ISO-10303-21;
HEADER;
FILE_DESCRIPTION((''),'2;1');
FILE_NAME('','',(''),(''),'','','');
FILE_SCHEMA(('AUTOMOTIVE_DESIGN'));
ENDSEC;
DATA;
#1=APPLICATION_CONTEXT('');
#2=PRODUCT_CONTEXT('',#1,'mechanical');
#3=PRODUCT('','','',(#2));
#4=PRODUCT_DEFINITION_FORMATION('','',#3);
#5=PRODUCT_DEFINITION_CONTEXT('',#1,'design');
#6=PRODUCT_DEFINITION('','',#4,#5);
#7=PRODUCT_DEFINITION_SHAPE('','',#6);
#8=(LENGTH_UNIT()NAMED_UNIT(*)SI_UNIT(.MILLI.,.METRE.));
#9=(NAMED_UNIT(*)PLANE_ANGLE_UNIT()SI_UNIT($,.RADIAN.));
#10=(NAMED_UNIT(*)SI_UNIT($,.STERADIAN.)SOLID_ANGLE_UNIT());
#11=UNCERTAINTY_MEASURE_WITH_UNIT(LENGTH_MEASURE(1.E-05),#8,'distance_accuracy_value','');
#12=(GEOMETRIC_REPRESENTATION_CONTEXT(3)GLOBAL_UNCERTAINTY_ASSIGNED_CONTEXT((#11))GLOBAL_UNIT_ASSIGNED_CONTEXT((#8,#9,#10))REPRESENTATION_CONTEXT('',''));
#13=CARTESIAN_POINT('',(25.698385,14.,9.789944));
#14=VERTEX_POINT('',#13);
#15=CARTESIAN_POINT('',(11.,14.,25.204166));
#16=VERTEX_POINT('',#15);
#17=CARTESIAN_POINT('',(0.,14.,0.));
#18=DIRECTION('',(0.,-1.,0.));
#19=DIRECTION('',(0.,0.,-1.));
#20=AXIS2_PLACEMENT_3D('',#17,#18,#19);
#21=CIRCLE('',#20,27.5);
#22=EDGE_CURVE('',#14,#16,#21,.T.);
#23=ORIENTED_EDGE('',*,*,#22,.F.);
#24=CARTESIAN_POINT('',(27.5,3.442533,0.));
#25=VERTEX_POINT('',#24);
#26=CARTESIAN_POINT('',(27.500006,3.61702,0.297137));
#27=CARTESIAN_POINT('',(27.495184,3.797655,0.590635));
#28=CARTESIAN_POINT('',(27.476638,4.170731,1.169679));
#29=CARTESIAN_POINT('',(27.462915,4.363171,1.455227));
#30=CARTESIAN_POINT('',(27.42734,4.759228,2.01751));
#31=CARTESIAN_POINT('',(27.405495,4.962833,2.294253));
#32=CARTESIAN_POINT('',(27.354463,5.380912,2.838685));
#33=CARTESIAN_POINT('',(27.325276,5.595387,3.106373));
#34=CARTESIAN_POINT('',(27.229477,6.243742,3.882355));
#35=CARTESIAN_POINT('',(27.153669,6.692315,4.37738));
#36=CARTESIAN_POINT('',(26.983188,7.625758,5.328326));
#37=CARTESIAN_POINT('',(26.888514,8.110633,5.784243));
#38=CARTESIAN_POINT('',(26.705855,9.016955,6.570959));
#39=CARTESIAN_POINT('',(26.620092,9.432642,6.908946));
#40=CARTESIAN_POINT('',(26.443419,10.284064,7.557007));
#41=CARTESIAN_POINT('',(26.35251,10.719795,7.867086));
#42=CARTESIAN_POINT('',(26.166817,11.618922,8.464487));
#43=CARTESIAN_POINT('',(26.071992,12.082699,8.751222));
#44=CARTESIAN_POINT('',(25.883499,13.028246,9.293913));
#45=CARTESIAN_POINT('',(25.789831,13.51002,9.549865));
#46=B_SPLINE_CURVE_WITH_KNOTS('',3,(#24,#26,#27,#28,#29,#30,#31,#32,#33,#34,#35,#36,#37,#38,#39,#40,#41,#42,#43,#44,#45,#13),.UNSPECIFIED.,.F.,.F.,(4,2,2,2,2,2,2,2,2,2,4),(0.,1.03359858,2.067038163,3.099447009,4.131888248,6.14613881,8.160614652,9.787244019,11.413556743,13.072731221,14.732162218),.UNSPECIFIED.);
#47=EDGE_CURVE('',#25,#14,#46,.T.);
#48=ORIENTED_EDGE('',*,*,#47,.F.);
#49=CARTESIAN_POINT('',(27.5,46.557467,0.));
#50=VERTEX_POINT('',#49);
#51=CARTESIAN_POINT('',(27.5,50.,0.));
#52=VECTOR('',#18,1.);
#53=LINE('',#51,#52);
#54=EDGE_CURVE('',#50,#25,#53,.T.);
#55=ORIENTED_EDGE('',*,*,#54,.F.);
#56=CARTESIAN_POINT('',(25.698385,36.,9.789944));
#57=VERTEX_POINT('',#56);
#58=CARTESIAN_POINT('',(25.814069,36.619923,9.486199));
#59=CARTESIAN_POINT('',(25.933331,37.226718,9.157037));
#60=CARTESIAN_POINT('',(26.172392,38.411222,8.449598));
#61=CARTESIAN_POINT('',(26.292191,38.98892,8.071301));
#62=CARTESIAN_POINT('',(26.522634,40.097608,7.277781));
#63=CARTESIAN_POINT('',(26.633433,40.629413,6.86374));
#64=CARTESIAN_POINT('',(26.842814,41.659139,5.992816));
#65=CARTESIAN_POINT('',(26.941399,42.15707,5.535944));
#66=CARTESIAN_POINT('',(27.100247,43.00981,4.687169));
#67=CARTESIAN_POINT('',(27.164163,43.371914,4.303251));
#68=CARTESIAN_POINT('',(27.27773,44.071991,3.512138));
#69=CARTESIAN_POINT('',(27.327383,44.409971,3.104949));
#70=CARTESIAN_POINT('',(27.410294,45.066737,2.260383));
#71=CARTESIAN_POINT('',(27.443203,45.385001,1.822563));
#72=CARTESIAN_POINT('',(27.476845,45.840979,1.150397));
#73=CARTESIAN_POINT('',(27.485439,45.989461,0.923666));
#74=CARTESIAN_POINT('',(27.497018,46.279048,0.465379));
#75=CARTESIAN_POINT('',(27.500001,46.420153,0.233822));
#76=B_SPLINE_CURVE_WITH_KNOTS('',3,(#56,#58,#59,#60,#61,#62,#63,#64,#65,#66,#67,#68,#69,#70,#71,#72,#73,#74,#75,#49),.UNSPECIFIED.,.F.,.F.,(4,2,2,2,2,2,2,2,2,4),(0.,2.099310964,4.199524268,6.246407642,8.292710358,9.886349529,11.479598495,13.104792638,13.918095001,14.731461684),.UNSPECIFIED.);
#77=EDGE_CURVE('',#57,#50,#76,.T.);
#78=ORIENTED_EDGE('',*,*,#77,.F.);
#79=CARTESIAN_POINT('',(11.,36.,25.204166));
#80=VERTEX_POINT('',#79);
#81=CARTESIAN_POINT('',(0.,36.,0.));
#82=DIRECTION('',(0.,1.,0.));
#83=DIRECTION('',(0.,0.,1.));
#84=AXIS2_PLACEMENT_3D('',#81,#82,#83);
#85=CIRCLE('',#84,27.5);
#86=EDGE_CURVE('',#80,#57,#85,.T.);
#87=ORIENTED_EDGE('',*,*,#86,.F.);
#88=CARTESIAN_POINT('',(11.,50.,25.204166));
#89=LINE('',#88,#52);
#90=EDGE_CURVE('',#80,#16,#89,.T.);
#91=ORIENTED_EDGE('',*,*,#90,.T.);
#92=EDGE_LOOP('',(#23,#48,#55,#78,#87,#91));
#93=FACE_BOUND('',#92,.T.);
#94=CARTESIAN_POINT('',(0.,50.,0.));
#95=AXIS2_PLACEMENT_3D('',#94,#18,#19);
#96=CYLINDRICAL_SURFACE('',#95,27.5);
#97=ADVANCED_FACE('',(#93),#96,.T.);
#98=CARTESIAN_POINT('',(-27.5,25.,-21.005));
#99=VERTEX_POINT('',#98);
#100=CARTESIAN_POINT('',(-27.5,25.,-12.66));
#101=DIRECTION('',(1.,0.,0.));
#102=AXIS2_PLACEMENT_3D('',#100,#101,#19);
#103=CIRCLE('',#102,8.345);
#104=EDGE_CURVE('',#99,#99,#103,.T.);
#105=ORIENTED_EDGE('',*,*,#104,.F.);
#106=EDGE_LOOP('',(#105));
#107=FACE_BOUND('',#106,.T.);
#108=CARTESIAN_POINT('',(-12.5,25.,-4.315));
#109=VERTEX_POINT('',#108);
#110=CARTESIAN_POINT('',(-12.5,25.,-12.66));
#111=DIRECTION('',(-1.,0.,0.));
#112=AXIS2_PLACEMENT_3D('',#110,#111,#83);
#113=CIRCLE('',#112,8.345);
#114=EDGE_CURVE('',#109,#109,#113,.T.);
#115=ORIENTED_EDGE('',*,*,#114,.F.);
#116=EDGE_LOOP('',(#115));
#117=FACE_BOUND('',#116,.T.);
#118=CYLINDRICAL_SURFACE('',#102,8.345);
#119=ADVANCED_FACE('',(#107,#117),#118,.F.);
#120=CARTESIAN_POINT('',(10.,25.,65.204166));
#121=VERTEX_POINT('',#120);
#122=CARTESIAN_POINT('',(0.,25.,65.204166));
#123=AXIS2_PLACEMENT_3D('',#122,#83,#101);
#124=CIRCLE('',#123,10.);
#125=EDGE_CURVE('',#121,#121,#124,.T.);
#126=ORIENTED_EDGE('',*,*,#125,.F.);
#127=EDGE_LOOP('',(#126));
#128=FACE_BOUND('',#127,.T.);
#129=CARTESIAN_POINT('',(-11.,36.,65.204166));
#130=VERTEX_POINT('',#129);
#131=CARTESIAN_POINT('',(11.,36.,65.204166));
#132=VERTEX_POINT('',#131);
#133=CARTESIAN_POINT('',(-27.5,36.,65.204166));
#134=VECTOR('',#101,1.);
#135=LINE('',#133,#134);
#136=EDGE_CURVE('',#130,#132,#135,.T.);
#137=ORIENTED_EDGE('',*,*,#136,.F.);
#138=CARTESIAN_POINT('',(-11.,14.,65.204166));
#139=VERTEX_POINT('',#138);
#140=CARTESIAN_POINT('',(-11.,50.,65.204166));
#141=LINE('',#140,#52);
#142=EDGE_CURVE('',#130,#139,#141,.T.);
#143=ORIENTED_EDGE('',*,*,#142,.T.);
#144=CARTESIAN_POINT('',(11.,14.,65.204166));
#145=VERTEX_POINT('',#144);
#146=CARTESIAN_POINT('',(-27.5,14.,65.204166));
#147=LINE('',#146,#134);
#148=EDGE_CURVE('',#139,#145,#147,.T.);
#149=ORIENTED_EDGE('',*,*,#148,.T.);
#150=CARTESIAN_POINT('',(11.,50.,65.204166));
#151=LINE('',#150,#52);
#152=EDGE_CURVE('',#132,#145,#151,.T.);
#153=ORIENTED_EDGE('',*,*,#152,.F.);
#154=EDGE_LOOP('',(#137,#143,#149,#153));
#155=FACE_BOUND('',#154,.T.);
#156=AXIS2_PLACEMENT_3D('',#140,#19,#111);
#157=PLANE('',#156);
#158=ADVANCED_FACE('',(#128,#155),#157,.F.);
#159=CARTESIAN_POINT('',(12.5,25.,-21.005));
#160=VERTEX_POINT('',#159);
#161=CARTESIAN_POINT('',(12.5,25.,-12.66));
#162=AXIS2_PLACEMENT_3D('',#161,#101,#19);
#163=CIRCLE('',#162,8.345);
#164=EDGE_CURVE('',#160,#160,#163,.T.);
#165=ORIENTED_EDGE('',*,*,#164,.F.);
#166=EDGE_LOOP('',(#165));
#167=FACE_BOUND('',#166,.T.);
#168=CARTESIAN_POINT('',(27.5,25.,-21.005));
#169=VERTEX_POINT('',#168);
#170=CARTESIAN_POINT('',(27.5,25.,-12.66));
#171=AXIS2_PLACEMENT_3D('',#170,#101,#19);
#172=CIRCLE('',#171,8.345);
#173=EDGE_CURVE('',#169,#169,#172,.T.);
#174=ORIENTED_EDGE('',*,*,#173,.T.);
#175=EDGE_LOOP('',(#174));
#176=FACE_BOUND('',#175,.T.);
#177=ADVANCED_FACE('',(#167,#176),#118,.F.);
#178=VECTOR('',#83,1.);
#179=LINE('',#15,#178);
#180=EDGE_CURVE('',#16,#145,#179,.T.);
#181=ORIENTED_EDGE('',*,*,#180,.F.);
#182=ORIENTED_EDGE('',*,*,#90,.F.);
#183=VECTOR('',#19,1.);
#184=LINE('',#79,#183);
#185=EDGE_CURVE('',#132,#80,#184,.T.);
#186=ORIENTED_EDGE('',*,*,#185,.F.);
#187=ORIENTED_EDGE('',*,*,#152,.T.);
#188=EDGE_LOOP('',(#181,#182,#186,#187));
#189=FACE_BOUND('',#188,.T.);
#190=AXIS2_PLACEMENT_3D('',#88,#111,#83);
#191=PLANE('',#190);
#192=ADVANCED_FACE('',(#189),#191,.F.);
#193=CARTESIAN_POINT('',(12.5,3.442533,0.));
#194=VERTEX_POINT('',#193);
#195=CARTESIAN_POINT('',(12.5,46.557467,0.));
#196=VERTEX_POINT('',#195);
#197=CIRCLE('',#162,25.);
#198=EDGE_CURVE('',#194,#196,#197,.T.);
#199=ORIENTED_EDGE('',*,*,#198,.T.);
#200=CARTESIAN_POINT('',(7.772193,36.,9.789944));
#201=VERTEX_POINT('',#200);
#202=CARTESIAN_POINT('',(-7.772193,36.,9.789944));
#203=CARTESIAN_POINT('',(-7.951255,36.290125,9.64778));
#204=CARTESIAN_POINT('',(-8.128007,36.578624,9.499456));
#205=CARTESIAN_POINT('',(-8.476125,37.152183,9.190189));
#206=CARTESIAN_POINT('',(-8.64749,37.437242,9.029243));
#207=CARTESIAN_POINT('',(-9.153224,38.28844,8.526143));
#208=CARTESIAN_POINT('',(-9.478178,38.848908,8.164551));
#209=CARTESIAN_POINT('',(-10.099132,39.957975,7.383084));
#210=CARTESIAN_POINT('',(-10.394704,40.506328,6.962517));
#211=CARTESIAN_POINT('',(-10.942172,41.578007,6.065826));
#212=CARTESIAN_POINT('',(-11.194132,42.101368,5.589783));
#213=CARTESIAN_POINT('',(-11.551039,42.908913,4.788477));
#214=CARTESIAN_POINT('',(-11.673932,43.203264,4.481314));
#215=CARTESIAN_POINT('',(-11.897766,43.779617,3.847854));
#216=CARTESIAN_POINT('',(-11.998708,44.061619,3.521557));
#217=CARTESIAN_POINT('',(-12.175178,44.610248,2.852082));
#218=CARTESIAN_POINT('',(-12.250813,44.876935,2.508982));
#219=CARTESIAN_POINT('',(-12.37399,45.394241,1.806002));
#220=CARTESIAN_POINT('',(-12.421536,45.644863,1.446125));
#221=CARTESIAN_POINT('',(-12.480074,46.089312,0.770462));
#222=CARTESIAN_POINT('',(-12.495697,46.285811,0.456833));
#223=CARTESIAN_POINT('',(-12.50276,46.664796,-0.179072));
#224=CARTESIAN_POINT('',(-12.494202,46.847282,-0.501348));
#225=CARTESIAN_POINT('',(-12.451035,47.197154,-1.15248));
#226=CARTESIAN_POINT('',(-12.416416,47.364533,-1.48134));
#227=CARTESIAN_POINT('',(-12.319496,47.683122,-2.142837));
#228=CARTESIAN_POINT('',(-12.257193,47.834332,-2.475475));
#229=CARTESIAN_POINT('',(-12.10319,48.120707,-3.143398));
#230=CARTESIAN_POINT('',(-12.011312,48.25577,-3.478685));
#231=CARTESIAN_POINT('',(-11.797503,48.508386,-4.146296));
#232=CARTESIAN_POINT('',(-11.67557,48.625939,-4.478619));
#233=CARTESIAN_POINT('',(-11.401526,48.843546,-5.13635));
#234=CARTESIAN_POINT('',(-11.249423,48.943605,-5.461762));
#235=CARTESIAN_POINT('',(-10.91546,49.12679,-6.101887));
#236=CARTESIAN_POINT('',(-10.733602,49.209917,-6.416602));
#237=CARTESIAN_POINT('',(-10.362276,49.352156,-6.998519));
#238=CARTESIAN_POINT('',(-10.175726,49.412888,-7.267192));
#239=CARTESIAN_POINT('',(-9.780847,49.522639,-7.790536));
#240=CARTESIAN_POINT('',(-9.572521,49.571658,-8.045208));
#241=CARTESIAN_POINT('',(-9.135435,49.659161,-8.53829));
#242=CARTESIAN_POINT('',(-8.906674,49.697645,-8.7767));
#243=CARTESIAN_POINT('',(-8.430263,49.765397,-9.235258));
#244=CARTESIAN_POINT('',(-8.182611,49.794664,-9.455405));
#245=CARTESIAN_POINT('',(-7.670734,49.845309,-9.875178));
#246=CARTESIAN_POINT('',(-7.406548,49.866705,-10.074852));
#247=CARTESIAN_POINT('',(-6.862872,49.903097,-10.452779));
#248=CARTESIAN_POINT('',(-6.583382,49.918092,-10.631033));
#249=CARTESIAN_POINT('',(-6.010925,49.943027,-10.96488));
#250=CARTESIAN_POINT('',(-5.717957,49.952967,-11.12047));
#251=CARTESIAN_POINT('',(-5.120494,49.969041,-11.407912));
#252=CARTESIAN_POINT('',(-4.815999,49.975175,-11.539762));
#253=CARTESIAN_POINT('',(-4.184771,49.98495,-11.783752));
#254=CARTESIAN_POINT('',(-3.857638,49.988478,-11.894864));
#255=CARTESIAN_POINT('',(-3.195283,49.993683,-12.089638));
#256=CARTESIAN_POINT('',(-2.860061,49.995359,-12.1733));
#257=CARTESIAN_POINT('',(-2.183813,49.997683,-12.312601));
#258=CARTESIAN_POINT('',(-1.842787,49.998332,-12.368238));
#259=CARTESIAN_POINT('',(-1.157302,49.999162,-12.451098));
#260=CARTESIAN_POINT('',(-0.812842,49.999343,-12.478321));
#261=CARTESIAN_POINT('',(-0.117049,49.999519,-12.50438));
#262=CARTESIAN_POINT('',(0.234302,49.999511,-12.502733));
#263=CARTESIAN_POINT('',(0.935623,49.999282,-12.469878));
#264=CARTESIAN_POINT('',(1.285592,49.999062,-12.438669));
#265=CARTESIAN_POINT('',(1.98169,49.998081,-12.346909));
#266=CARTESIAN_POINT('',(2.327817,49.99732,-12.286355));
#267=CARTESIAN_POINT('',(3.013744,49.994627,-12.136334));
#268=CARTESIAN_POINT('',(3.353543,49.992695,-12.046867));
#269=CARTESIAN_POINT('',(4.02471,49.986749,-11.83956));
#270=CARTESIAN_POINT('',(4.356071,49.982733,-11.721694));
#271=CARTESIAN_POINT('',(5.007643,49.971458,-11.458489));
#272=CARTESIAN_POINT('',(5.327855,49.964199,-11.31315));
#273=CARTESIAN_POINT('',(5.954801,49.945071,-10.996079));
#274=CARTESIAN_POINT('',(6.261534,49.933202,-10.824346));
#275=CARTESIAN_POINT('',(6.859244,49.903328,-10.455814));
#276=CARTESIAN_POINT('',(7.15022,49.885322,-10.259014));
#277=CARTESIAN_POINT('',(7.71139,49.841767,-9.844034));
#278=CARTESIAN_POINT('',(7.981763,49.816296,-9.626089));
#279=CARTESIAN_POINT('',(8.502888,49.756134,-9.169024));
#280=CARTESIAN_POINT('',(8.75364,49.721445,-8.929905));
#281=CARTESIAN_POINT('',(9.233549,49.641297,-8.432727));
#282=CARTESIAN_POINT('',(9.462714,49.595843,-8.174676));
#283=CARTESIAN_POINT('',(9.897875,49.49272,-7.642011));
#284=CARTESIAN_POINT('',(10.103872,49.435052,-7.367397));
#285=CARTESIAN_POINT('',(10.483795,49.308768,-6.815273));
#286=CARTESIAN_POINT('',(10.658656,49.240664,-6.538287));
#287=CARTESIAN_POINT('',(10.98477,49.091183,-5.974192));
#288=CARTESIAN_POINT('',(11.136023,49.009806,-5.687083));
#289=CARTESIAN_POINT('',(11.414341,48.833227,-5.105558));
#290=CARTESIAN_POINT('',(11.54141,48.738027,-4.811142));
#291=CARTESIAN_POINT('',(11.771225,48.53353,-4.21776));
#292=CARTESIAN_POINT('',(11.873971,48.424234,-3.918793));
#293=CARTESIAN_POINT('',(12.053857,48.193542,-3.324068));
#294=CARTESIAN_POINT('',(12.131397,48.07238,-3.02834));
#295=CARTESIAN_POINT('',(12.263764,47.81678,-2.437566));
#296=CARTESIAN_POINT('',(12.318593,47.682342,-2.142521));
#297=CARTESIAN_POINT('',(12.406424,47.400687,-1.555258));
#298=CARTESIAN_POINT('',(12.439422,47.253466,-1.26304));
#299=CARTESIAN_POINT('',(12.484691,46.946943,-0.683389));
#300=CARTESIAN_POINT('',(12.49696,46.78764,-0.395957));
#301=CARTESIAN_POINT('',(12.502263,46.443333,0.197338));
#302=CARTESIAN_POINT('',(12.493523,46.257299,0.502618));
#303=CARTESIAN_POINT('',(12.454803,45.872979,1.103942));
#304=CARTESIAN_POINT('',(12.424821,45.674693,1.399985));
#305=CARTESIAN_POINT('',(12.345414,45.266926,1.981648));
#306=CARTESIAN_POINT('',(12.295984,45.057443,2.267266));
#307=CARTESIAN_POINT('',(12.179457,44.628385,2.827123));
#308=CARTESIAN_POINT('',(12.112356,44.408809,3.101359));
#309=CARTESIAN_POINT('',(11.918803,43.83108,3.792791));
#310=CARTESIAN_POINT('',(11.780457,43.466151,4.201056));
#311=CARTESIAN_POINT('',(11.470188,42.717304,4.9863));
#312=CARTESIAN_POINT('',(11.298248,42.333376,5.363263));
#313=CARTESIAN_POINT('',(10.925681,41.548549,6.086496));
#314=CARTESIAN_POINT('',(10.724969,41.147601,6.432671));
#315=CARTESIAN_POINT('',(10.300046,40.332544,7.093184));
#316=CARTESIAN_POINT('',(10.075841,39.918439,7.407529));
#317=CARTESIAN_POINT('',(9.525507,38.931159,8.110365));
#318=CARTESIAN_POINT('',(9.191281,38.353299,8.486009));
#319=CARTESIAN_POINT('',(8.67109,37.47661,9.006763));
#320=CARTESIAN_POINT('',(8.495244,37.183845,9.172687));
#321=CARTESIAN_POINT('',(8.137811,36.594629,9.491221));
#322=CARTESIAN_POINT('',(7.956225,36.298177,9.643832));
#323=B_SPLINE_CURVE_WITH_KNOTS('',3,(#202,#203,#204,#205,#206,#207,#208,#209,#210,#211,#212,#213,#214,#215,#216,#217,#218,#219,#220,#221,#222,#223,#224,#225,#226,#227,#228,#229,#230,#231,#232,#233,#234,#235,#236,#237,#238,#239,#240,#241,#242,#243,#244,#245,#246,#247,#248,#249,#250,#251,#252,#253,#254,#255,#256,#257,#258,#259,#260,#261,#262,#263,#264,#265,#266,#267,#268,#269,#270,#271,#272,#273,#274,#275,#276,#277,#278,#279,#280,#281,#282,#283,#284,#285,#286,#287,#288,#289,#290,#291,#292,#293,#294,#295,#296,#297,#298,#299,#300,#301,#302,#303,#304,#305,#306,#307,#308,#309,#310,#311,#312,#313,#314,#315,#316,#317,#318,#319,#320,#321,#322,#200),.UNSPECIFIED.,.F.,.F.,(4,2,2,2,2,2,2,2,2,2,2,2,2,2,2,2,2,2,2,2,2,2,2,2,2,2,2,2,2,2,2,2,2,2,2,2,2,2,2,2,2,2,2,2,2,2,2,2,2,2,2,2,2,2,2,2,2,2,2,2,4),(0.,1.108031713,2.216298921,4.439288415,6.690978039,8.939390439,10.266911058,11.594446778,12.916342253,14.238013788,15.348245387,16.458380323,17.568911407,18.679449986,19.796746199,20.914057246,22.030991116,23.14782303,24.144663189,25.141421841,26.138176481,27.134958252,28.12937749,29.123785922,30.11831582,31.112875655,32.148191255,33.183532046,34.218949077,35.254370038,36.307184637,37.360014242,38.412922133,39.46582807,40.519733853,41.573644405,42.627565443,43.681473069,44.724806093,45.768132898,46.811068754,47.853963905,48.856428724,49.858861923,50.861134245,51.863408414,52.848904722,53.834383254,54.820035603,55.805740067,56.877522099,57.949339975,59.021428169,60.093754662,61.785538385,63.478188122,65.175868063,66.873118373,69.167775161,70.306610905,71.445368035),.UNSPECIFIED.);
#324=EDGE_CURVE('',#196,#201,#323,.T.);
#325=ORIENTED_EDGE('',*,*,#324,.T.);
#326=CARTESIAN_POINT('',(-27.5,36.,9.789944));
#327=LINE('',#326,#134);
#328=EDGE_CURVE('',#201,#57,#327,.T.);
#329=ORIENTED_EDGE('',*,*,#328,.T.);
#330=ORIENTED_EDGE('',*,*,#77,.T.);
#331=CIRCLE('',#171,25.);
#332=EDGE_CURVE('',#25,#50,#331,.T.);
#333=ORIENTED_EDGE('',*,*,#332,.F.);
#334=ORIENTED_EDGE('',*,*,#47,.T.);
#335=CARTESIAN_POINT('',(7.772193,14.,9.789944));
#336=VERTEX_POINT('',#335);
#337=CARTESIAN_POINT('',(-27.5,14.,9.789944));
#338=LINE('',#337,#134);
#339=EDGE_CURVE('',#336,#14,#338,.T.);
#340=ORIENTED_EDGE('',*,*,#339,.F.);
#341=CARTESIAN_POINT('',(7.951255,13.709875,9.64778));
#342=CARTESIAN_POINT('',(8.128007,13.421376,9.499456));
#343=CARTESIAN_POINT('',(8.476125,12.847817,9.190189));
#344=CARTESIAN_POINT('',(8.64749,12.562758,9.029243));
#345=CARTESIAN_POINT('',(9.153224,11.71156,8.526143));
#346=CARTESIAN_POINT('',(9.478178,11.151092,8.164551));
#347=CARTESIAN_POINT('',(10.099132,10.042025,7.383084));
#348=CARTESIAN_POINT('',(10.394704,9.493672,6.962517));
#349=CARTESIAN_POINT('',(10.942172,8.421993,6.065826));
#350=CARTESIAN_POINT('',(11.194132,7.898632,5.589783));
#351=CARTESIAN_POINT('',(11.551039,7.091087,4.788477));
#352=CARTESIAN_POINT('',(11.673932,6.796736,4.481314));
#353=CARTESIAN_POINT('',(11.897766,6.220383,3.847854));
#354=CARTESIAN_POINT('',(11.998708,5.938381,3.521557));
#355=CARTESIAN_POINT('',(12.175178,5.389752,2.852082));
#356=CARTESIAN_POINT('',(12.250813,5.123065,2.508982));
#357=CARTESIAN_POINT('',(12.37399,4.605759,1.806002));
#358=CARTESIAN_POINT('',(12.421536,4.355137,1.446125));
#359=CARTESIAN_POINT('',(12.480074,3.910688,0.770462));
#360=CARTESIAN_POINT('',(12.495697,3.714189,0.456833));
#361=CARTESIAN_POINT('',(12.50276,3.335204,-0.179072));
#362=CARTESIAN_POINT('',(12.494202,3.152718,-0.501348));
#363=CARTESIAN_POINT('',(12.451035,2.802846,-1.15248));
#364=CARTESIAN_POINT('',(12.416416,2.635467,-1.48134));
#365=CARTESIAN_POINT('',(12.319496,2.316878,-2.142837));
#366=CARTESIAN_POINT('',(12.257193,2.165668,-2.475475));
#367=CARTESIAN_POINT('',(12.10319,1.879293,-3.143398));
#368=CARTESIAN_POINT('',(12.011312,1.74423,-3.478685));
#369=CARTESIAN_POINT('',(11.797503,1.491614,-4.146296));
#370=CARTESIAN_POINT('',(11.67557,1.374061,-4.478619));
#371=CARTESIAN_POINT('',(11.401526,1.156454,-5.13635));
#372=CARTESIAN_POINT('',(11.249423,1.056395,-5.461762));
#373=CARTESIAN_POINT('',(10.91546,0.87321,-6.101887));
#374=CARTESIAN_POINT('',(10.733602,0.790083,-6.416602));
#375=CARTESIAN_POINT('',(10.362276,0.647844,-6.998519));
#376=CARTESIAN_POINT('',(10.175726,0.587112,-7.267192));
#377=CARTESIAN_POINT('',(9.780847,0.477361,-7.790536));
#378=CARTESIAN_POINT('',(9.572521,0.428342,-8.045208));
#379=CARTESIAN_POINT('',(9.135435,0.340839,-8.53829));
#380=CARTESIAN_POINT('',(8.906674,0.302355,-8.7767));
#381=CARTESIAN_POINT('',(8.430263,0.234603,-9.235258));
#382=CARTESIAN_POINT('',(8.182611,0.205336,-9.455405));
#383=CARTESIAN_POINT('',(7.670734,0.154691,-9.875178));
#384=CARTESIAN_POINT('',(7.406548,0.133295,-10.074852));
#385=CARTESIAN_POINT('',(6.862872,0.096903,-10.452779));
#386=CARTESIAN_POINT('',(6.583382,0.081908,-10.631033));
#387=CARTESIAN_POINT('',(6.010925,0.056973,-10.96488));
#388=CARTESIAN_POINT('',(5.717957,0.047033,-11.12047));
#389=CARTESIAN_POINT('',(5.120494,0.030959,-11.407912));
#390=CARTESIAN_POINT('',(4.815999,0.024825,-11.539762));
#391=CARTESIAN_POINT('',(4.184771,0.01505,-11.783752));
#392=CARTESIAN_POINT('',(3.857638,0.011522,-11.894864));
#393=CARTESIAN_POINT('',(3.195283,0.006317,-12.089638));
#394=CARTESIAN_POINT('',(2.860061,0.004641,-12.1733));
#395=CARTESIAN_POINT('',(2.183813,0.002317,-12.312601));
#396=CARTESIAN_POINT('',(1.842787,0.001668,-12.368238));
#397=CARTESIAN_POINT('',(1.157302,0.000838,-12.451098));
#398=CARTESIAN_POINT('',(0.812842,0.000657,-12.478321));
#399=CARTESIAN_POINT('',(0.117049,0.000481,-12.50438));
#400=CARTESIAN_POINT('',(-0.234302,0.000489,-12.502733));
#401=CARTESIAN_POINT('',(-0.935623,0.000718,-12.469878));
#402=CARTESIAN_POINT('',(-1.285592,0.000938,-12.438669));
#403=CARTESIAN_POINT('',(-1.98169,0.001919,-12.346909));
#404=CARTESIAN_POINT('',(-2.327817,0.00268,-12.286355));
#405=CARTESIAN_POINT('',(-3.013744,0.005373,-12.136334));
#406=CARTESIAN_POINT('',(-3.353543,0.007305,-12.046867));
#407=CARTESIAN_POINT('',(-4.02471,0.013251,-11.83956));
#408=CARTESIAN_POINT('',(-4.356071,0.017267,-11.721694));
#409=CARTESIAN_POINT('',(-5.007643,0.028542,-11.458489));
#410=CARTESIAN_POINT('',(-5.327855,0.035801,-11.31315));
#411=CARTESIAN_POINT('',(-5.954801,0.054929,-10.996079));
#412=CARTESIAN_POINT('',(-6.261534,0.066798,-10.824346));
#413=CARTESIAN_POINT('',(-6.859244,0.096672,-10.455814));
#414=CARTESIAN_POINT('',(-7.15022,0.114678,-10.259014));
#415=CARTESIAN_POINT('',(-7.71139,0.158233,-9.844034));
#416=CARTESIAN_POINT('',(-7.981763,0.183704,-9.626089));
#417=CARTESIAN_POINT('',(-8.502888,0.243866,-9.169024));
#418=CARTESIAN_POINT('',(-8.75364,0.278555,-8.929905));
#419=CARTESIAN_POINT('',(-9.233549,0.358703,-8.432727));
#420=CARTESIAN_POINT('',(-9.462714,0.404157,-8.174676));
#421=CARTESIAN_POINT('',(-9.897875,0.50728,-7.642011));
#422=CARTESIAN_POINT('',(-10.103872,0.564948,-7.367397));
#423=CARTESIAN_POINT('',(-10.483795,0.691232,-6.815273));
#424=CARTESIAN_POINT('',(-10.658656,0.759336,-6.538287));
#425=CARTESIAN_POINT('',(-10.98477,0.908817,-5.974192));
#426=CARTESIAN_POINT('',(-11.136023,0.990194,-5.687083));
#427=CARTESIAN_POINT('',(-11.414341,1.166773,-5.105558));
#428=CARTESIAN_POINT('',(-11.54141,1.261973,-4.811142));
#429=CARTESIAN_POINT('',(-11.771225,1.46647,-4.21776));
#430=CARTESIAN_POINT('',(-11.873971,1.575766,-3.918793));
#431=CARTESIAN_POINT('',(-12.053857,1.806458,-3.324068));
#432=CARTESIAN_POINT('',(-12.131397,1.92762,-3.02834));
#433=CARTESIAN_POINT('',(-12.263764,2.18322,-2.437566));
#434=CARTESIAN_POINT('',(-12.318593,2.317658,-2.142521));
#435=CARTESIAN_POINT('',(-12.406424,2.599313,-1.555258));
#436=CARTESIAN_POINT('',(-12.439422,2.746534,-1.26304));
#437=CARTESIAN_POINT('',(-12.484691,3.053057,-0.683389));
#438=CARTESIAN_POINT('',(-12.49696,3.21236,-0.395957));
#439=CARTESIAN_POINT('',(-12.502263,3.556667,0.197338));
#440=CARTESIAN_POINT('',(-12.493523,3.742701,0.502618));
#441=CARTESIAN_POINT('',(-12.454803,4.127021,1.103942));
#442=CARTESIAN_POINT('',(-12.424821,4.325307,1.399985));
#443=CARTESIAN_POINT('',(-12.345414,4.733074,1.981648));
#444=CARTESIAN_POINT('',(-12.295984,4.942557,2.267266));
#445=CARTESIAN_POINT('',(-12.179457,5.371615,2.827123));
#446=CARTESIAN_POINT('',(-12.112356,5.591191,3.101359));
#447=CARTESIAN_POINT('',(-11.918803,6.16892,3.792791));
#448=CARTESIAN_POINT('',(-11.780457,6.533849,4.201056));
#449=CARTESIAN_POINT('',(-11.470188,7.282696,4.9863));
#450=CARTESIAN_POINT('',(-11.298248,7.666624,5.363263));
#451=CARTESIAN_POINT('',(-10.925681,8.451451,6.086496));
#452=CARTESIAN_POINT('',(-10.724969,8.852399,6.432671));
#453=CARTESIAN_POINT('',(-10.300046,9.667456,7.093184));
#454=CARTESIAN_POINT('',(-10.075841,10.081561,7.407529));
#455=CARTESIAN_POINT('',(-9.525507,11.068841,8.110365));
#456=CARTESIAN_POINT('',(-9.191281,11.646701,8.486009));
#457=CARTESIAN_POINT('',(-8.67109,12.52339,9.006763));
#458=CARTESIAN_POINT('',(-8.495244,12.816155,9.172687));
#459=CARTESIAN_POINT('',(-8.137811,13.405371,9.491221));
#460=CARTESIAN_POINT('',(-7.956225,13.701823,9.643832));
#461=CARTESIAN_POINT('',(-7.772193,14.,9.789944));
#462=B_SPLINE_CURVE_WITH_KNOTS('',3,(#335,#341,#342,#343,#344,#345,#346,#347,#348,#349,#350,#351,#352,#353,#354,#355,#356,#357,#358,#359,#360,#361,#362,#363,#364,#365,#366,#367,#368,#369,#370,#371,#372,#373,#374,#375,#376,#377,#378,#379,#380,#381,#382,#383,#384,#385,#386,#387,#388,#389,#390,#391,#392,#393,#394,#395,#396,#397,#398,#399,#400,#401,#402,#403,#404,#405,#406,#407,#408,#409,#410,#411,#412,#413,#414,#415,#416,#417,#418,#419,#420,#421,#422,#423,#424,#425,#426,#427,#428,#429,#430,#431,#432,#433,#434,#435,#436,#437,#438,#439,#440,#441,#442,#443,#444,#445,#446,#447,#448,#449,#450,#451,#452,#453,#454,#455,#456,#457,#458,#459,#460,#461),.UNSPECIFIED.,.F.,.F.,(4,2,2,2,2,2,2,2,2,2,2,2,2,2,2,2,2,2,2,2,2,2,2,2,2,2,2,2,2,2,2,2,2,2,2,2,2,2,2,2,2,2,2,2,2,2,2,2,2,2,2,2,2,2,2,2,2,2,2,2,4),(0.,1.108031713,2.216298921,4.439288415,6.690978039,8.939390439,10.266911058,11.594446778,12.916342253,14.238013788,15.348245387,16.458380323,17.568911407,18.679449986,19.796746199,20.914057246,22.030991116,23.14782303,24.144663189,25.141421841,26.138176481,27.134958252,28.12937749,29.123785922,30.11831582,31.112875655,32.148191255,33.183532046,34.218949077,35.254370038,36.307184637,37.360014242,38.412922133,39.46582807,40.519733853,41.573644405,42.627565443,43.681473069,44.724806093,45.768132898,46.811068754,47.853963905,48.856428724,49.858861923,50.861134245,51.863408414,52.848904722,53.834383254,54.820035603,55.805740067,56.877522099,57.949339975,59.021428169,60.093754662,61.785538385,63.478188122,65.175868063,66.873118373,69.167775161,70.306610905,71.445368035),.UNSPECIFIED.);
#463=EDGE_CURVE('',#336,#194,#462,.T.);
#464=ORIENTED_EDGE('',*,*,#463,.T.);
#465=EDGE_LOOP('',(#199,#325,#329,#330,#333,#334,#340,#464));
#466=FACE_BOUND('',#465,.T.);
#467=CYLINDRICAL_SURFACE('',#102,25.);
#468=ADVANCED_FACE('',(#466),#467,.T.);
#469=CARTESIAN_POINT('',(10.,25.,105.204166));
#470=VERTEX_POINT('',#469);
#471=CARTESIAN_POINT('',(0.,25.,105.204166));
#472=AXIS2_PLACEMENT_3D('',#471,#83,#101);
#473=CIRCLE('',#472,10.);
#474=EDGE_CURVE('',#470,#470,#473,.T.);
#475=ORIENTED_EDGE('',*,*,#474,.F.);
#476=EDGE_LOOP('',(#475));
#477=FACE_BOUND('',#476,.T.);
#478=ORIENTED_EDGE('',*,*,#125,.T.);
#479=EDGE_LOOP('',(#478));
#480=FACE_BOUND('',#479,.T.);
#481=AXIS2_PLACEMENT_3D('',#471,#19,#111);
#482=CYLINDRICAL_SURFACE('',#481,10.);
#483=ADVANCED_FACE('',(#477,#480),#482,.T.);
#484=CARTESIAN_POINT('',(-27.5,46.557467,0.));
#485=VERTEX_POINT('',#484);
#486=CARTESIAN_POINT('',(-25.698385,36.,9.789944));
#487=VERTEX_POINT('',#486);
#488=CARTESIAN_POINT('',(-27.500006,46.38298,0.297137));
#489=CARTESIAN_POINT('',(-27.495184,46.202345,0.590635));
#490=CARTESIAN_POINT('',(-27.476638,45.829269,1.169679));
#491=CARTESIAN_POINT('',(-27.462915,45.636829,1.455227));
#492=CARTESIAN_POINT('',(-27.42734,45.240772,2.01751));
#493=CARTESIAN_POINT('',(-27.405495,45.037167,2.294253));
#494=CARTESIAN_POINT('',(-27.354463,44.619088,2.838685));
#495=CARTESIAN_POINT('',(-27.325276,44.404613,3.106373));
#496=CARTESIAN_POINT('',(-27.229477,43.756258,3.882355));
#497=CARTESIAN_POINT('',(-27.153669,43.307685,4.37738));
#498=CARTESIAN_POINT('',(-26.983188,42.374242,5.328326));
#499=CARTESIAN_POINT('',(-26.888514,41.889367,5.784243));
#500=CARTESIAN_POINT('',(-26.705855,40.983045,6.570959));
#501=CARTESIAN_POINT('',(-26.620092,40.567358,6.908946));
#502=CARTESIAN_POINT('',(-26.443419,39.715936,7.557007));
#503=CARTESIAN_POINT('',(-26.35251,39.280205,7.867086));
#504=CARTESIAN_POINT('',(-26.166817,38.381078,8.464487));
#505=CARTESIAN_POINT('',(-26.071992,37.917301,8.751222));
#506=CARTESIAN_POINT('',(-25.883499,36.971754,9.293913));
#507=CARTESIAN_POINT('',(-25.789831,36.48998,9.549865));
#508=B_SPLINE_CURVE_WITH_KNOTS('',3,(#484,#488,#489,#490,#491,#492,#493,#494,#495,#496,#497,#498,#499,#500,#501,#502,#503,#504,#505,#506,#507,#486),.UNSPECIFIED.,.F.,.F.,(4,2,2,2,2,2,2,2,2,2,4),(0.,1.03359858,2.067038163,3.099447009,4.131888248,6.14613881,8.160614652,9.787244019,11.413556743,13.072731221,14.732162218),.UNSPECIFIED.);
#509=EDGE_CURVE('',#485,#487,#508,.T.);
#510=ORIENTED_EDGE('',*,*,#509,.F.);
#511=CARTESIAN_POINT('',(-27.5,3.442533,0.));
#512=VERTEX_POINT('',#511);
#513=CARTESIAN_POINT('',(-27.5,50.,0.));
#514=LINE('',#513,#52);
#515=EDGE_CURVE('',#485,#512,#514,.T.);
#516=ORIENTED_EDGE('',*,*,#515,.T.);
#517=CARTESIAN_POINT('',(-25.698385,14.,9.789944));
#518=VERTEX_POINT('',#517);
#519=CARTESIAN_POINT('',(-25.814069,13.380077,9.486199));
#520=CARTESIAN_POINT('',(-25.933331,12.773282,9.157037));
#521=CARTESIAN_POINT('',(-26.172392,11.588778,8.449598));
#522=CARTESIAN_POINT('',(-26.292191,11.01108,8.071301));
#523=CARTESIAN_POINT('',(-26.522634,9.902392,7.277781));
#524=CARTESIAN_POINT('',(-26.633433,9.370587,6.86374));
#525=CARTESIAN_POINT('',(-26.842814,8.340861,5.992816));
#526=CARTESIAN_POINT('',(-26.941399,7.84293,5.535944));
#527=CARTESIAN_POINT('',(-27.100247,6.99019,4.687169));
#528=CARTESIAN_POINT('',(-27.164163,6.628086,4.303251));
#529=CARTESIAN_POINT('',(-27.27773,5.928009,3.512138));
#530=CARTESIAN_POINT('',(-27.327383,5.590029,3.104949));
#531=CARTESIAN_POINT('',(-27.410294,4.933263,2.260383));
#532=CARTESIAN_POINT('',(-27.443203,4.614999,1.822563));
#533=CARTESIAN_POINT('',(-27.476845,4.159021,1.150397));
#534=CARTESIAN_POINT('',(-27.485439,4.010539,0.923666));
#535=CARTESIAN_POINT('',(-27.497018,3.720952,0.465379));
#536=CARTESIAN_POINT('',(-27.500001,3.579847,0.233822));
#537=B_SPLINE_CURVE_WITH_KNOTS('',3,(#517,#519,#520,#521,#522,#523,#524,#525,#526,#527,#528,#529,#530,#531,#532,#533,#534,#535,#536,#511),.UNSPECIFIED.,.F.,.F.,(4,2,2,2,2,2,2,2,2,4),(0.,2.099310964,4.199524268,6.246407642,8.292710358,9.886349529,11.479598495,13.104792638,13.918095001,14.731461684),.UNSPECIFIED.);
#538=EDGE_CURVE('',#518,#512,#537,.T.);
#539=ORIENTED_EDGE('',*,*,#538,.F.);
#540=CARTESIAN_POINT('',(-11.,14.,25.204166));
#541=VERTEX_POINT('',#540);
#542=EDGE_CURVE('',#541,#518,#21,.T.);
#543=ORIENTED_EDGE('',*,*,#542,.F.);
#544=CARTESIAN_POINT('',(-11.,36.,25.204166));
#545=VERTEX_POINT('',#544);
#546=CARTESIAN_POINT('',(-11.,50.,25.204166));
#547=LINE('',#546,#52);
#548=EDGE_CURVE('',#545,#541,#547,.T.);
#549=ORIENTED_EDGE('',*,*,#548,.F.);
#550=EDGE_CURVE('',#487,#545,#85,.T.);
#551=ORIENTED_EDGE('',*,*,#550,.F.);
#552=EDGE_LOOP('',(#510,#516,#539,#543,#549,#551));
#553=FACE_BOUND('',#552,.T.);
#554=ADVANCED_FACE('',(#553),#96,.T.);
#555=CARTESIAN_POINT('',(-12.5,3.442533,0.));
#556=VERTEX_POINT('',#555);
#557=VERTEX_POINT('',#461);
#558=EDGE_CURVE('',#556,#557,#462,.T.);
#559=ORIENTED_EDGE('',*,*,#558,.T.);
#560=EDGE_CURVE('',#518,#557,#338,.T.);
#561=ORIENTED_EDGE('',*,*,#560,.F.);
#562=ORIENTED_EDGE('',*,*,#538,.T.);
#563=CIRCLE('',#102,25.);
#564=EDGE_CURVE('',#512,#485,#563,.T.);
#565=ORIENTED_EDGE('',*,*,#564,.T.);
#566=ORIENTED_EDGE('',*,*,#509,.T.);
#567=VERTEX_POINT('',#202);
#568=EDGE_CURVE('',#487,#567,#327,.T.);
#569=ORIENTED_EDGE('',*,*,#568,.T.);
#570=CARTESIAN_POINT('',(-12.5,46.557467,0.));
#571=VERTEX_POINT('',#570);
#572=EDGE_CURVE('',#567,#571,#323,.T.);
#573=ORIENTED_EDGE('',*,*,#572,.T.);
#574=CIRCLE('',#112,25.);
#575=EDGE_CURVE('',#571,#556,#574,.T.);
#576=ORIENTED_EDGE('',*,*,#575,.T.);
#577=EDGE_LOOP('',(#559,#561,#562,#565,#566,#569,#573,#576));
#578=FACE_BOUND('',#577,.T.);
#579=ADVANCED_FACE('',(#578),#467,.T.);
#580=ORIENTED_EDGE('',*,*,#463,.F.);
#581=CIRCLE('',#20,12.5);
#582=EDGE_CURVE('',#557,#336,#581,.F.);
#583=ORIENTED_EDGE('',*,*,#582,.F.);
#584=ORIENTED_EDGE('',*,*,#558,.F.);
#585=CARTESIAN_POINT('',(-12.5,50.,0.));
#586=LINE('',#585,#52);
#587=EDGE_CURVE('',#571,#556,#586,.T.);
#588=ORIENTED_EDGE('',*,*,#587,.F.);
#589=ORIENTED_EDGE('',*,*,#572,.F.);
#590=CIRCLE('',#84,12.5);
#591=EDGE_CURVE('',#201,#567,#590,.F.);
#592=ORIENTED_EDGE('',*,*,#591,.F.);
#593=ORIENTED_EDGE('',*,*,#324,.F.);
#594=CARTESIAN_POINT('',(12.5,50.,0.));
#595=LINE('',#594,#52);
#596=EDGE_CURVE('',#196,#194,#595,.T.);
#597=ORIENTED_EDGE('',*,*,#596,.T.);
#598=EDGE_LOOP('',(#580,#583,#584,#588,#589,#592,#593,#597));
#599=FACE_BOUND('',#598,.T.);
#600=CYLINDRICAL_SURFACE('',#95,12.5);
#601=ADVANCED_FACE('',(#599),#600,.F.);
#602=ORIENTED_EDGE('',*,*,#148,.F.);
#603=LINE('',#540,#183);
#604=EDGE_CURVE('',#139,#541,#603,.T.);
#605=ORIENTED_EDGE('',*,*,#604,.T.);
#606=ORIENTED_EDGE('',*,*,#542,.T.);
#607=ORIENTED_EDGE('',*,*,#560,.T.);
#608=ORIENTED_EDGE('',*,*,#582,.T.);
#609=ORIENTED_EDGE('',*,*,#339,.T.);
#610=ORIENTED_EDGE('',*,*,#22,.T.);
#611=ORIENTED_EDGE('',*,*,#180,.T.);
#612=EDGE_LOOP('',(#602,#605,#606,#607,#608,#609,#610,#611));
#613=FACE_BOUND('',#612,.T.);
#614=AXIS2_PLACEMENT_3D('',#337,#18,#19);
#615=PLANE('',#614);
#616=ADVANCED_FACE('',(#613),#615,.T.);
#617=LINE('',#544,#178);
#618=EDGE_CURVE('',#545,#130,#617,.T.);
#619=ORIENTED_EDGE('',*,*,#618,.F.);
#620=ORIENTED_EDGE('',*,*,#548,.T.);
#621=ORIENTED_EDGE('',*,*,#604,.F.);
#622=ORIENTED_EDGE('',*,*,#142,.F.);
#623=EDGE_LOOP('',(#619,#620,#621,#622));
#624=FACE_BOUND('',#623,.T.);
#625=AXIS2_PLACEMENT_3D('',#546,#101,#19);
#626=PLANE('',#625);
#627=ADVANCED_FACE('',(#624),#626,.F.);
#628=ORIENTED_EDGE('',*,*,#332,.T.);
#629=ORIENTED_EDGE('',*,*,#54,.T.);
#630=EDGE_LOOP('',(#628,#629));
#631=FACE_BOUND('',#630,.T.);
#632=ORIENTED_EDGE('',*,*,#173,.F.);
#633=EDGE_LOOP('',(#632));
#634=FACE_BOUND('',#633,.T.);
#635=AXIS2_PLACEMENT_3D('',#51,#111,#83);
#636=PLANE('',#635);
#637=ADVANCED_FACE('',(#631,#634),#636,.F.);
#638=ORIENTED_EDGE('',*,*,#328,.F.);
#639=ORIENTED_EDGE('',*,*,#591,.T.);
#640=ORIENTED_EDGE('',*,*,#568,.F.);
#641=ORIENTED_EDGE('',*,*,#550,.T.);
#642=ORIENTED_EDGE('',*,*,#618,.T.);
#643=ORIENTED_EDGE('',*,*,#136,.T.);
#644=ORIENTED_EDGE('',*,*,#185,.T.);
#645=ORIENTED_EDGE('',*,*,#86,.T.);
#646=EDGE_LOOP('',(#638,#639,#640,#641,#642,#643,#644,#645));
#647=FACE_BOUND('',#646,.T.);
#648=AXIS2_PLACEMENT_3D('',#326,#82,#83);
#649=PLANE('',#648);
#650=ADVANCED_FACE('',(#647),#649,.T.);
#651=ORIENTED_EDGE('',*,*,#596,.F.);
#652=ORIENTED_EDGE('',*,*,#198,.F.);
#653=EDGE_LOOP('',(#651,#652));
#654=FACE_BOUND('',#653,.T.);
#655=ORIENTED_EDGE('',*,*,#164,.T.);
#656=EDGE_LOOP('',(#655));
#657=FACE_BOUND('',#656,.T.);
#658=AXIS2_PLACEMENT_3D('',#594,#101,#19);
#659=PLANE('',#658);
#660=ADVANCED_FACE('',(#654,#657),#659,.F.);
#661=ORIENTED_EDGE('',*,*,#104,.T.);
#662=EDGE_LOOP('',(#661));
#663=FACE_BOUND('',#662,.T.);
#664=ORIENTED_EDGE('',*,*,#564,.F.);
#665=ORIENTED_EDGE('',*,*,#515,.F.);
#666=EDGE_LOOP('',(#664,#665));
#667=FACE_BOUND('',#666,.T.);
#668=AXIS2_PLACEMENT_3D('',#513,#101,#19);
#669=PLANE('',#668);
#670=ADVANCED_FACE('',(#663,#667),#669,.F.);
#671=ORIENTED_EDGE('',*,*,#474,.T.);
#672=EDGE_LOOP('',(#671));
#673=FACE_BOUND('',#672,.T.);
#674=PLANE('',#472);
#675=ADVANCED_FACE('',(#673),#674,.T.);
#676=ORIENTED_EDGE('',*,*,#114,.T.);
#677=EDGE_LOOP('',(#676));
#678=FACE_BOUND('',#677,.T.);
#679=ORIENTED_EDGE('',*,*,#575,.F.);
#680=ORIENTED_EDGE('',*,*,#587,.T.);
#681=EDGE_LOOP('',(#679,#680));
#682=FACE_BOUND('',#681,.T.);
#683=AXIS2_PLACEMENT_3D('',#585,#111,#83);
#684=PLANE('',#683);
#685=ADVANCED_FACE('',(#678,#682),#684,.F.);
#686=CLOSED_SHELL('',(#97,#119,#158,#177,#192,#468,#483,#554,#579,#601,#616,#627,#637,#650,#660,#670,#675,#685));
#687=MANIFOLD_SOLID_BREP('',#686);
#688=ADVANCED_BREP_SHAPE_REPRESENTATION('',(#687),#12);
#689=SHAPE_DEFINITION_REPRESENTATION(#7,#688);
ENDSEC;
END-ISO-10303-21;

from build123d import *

# Parameters (mm, degrees)
BOSS_EXTRUDE1_DEPTH = 50
SKETCH4_OUTSIDE_W   = 144.624
SKETCH4_OUTSIDE_H   = 79.42
SKETCH4_OUTSIDE_R   = 8.345
CUT_EXTRUDE1_DEPTH  = 99.876606464
SKETCH5_R           = 10
BOSS_EXTRUDE2_DEPTH = 40


with BuildPart() as part:
    # Sketch3 → Boss-Extrude1 (new body)
    with BuildSketch(Plane(origin=(0, 0, 0), x_dir=(1, 0, 0), z_dir=(0, 1, 0))):
        with BuildLine():
            Line((-12.5, 0), (-12.5, 50))
            Line((-12.5, 50), (-27.5, 50))
            Line((-27.5, 50), (-27.5, 0))
            ThreePointArc((-27.5, 0), (-23.00815073, -15.062370331), (-11, -25.204166322))
            Line((-11, -25.204166322), (-11, -65.204166322))
            Line((-11, -65.204166322), (11, -65.204166322))
            Line((11, -65.204166322), (11, -25.204166322))
            ThreePointArc((11, -25.204166322), (23.00815073, -15.062370331), (27.5, 0))
            Line((27.5, 0), (27.5, 37.66))
            Line((27.5, 37.66), (12.5, 37.66))
            Line((12.5, 37.66), (12.5, 0))
            ThreePointArc((12.5, 0), (0, -12.5), (-12.5, 0))
        make_face()
    extrude(amount=BOSS_EXTRUDE1_DEPTH)

    # Sketch4 outside → Cut-Extrude1 (cut, through all)
    # profile 1 of 2: a face of its own
    with BuildSketch(Plane(origin=(27.5, 0, 0), x_dir=(0, 0, -1), z_dir=(1, 0, 0))):
        with Locations((-7.602, 25)):
            Rectangle(SKETCH4_OUTSIDE_W, SKETCH4_OUTSIDE_H)
        with BuildLine():
            Line((-9.789944321, 14), (-65.204166322, 14))
            Line((-65.204166322, 14), (-65.204166322, 36))
            Line((-65.204166322, 36), (-9.789944321, 36))
            ThreePointArc((-9.789944321, 36), (37.66, 25), (-9.789944321, 14))
        make_face(mode=Mode.SUBTRACT)
    # profile 2 of 2: a face of its own
    with BuildSketch(Plane(origin=(27.5, 0, 0), x_dir=(0, 0, -1), z_dir=(1, 0, 0))):
        with Locations((12.66, 25)):
            Circle(SKETCH4_OUTSIDE_R)
    extrude(amount=-CUT_EXTRUDE1_DEPTH, mode=Mode.SUBTRACT)

    # Sketch5 → Boss-Extrude2 (add)
    with BuildSketch(Plane.XY.offset(65.204166322)):
        with Locations((0, 25)):
            Circle(SKETCH5_R)
    extrude(amount=BOSS_EXTRUDE2_DEPTH)


solid = part.part
